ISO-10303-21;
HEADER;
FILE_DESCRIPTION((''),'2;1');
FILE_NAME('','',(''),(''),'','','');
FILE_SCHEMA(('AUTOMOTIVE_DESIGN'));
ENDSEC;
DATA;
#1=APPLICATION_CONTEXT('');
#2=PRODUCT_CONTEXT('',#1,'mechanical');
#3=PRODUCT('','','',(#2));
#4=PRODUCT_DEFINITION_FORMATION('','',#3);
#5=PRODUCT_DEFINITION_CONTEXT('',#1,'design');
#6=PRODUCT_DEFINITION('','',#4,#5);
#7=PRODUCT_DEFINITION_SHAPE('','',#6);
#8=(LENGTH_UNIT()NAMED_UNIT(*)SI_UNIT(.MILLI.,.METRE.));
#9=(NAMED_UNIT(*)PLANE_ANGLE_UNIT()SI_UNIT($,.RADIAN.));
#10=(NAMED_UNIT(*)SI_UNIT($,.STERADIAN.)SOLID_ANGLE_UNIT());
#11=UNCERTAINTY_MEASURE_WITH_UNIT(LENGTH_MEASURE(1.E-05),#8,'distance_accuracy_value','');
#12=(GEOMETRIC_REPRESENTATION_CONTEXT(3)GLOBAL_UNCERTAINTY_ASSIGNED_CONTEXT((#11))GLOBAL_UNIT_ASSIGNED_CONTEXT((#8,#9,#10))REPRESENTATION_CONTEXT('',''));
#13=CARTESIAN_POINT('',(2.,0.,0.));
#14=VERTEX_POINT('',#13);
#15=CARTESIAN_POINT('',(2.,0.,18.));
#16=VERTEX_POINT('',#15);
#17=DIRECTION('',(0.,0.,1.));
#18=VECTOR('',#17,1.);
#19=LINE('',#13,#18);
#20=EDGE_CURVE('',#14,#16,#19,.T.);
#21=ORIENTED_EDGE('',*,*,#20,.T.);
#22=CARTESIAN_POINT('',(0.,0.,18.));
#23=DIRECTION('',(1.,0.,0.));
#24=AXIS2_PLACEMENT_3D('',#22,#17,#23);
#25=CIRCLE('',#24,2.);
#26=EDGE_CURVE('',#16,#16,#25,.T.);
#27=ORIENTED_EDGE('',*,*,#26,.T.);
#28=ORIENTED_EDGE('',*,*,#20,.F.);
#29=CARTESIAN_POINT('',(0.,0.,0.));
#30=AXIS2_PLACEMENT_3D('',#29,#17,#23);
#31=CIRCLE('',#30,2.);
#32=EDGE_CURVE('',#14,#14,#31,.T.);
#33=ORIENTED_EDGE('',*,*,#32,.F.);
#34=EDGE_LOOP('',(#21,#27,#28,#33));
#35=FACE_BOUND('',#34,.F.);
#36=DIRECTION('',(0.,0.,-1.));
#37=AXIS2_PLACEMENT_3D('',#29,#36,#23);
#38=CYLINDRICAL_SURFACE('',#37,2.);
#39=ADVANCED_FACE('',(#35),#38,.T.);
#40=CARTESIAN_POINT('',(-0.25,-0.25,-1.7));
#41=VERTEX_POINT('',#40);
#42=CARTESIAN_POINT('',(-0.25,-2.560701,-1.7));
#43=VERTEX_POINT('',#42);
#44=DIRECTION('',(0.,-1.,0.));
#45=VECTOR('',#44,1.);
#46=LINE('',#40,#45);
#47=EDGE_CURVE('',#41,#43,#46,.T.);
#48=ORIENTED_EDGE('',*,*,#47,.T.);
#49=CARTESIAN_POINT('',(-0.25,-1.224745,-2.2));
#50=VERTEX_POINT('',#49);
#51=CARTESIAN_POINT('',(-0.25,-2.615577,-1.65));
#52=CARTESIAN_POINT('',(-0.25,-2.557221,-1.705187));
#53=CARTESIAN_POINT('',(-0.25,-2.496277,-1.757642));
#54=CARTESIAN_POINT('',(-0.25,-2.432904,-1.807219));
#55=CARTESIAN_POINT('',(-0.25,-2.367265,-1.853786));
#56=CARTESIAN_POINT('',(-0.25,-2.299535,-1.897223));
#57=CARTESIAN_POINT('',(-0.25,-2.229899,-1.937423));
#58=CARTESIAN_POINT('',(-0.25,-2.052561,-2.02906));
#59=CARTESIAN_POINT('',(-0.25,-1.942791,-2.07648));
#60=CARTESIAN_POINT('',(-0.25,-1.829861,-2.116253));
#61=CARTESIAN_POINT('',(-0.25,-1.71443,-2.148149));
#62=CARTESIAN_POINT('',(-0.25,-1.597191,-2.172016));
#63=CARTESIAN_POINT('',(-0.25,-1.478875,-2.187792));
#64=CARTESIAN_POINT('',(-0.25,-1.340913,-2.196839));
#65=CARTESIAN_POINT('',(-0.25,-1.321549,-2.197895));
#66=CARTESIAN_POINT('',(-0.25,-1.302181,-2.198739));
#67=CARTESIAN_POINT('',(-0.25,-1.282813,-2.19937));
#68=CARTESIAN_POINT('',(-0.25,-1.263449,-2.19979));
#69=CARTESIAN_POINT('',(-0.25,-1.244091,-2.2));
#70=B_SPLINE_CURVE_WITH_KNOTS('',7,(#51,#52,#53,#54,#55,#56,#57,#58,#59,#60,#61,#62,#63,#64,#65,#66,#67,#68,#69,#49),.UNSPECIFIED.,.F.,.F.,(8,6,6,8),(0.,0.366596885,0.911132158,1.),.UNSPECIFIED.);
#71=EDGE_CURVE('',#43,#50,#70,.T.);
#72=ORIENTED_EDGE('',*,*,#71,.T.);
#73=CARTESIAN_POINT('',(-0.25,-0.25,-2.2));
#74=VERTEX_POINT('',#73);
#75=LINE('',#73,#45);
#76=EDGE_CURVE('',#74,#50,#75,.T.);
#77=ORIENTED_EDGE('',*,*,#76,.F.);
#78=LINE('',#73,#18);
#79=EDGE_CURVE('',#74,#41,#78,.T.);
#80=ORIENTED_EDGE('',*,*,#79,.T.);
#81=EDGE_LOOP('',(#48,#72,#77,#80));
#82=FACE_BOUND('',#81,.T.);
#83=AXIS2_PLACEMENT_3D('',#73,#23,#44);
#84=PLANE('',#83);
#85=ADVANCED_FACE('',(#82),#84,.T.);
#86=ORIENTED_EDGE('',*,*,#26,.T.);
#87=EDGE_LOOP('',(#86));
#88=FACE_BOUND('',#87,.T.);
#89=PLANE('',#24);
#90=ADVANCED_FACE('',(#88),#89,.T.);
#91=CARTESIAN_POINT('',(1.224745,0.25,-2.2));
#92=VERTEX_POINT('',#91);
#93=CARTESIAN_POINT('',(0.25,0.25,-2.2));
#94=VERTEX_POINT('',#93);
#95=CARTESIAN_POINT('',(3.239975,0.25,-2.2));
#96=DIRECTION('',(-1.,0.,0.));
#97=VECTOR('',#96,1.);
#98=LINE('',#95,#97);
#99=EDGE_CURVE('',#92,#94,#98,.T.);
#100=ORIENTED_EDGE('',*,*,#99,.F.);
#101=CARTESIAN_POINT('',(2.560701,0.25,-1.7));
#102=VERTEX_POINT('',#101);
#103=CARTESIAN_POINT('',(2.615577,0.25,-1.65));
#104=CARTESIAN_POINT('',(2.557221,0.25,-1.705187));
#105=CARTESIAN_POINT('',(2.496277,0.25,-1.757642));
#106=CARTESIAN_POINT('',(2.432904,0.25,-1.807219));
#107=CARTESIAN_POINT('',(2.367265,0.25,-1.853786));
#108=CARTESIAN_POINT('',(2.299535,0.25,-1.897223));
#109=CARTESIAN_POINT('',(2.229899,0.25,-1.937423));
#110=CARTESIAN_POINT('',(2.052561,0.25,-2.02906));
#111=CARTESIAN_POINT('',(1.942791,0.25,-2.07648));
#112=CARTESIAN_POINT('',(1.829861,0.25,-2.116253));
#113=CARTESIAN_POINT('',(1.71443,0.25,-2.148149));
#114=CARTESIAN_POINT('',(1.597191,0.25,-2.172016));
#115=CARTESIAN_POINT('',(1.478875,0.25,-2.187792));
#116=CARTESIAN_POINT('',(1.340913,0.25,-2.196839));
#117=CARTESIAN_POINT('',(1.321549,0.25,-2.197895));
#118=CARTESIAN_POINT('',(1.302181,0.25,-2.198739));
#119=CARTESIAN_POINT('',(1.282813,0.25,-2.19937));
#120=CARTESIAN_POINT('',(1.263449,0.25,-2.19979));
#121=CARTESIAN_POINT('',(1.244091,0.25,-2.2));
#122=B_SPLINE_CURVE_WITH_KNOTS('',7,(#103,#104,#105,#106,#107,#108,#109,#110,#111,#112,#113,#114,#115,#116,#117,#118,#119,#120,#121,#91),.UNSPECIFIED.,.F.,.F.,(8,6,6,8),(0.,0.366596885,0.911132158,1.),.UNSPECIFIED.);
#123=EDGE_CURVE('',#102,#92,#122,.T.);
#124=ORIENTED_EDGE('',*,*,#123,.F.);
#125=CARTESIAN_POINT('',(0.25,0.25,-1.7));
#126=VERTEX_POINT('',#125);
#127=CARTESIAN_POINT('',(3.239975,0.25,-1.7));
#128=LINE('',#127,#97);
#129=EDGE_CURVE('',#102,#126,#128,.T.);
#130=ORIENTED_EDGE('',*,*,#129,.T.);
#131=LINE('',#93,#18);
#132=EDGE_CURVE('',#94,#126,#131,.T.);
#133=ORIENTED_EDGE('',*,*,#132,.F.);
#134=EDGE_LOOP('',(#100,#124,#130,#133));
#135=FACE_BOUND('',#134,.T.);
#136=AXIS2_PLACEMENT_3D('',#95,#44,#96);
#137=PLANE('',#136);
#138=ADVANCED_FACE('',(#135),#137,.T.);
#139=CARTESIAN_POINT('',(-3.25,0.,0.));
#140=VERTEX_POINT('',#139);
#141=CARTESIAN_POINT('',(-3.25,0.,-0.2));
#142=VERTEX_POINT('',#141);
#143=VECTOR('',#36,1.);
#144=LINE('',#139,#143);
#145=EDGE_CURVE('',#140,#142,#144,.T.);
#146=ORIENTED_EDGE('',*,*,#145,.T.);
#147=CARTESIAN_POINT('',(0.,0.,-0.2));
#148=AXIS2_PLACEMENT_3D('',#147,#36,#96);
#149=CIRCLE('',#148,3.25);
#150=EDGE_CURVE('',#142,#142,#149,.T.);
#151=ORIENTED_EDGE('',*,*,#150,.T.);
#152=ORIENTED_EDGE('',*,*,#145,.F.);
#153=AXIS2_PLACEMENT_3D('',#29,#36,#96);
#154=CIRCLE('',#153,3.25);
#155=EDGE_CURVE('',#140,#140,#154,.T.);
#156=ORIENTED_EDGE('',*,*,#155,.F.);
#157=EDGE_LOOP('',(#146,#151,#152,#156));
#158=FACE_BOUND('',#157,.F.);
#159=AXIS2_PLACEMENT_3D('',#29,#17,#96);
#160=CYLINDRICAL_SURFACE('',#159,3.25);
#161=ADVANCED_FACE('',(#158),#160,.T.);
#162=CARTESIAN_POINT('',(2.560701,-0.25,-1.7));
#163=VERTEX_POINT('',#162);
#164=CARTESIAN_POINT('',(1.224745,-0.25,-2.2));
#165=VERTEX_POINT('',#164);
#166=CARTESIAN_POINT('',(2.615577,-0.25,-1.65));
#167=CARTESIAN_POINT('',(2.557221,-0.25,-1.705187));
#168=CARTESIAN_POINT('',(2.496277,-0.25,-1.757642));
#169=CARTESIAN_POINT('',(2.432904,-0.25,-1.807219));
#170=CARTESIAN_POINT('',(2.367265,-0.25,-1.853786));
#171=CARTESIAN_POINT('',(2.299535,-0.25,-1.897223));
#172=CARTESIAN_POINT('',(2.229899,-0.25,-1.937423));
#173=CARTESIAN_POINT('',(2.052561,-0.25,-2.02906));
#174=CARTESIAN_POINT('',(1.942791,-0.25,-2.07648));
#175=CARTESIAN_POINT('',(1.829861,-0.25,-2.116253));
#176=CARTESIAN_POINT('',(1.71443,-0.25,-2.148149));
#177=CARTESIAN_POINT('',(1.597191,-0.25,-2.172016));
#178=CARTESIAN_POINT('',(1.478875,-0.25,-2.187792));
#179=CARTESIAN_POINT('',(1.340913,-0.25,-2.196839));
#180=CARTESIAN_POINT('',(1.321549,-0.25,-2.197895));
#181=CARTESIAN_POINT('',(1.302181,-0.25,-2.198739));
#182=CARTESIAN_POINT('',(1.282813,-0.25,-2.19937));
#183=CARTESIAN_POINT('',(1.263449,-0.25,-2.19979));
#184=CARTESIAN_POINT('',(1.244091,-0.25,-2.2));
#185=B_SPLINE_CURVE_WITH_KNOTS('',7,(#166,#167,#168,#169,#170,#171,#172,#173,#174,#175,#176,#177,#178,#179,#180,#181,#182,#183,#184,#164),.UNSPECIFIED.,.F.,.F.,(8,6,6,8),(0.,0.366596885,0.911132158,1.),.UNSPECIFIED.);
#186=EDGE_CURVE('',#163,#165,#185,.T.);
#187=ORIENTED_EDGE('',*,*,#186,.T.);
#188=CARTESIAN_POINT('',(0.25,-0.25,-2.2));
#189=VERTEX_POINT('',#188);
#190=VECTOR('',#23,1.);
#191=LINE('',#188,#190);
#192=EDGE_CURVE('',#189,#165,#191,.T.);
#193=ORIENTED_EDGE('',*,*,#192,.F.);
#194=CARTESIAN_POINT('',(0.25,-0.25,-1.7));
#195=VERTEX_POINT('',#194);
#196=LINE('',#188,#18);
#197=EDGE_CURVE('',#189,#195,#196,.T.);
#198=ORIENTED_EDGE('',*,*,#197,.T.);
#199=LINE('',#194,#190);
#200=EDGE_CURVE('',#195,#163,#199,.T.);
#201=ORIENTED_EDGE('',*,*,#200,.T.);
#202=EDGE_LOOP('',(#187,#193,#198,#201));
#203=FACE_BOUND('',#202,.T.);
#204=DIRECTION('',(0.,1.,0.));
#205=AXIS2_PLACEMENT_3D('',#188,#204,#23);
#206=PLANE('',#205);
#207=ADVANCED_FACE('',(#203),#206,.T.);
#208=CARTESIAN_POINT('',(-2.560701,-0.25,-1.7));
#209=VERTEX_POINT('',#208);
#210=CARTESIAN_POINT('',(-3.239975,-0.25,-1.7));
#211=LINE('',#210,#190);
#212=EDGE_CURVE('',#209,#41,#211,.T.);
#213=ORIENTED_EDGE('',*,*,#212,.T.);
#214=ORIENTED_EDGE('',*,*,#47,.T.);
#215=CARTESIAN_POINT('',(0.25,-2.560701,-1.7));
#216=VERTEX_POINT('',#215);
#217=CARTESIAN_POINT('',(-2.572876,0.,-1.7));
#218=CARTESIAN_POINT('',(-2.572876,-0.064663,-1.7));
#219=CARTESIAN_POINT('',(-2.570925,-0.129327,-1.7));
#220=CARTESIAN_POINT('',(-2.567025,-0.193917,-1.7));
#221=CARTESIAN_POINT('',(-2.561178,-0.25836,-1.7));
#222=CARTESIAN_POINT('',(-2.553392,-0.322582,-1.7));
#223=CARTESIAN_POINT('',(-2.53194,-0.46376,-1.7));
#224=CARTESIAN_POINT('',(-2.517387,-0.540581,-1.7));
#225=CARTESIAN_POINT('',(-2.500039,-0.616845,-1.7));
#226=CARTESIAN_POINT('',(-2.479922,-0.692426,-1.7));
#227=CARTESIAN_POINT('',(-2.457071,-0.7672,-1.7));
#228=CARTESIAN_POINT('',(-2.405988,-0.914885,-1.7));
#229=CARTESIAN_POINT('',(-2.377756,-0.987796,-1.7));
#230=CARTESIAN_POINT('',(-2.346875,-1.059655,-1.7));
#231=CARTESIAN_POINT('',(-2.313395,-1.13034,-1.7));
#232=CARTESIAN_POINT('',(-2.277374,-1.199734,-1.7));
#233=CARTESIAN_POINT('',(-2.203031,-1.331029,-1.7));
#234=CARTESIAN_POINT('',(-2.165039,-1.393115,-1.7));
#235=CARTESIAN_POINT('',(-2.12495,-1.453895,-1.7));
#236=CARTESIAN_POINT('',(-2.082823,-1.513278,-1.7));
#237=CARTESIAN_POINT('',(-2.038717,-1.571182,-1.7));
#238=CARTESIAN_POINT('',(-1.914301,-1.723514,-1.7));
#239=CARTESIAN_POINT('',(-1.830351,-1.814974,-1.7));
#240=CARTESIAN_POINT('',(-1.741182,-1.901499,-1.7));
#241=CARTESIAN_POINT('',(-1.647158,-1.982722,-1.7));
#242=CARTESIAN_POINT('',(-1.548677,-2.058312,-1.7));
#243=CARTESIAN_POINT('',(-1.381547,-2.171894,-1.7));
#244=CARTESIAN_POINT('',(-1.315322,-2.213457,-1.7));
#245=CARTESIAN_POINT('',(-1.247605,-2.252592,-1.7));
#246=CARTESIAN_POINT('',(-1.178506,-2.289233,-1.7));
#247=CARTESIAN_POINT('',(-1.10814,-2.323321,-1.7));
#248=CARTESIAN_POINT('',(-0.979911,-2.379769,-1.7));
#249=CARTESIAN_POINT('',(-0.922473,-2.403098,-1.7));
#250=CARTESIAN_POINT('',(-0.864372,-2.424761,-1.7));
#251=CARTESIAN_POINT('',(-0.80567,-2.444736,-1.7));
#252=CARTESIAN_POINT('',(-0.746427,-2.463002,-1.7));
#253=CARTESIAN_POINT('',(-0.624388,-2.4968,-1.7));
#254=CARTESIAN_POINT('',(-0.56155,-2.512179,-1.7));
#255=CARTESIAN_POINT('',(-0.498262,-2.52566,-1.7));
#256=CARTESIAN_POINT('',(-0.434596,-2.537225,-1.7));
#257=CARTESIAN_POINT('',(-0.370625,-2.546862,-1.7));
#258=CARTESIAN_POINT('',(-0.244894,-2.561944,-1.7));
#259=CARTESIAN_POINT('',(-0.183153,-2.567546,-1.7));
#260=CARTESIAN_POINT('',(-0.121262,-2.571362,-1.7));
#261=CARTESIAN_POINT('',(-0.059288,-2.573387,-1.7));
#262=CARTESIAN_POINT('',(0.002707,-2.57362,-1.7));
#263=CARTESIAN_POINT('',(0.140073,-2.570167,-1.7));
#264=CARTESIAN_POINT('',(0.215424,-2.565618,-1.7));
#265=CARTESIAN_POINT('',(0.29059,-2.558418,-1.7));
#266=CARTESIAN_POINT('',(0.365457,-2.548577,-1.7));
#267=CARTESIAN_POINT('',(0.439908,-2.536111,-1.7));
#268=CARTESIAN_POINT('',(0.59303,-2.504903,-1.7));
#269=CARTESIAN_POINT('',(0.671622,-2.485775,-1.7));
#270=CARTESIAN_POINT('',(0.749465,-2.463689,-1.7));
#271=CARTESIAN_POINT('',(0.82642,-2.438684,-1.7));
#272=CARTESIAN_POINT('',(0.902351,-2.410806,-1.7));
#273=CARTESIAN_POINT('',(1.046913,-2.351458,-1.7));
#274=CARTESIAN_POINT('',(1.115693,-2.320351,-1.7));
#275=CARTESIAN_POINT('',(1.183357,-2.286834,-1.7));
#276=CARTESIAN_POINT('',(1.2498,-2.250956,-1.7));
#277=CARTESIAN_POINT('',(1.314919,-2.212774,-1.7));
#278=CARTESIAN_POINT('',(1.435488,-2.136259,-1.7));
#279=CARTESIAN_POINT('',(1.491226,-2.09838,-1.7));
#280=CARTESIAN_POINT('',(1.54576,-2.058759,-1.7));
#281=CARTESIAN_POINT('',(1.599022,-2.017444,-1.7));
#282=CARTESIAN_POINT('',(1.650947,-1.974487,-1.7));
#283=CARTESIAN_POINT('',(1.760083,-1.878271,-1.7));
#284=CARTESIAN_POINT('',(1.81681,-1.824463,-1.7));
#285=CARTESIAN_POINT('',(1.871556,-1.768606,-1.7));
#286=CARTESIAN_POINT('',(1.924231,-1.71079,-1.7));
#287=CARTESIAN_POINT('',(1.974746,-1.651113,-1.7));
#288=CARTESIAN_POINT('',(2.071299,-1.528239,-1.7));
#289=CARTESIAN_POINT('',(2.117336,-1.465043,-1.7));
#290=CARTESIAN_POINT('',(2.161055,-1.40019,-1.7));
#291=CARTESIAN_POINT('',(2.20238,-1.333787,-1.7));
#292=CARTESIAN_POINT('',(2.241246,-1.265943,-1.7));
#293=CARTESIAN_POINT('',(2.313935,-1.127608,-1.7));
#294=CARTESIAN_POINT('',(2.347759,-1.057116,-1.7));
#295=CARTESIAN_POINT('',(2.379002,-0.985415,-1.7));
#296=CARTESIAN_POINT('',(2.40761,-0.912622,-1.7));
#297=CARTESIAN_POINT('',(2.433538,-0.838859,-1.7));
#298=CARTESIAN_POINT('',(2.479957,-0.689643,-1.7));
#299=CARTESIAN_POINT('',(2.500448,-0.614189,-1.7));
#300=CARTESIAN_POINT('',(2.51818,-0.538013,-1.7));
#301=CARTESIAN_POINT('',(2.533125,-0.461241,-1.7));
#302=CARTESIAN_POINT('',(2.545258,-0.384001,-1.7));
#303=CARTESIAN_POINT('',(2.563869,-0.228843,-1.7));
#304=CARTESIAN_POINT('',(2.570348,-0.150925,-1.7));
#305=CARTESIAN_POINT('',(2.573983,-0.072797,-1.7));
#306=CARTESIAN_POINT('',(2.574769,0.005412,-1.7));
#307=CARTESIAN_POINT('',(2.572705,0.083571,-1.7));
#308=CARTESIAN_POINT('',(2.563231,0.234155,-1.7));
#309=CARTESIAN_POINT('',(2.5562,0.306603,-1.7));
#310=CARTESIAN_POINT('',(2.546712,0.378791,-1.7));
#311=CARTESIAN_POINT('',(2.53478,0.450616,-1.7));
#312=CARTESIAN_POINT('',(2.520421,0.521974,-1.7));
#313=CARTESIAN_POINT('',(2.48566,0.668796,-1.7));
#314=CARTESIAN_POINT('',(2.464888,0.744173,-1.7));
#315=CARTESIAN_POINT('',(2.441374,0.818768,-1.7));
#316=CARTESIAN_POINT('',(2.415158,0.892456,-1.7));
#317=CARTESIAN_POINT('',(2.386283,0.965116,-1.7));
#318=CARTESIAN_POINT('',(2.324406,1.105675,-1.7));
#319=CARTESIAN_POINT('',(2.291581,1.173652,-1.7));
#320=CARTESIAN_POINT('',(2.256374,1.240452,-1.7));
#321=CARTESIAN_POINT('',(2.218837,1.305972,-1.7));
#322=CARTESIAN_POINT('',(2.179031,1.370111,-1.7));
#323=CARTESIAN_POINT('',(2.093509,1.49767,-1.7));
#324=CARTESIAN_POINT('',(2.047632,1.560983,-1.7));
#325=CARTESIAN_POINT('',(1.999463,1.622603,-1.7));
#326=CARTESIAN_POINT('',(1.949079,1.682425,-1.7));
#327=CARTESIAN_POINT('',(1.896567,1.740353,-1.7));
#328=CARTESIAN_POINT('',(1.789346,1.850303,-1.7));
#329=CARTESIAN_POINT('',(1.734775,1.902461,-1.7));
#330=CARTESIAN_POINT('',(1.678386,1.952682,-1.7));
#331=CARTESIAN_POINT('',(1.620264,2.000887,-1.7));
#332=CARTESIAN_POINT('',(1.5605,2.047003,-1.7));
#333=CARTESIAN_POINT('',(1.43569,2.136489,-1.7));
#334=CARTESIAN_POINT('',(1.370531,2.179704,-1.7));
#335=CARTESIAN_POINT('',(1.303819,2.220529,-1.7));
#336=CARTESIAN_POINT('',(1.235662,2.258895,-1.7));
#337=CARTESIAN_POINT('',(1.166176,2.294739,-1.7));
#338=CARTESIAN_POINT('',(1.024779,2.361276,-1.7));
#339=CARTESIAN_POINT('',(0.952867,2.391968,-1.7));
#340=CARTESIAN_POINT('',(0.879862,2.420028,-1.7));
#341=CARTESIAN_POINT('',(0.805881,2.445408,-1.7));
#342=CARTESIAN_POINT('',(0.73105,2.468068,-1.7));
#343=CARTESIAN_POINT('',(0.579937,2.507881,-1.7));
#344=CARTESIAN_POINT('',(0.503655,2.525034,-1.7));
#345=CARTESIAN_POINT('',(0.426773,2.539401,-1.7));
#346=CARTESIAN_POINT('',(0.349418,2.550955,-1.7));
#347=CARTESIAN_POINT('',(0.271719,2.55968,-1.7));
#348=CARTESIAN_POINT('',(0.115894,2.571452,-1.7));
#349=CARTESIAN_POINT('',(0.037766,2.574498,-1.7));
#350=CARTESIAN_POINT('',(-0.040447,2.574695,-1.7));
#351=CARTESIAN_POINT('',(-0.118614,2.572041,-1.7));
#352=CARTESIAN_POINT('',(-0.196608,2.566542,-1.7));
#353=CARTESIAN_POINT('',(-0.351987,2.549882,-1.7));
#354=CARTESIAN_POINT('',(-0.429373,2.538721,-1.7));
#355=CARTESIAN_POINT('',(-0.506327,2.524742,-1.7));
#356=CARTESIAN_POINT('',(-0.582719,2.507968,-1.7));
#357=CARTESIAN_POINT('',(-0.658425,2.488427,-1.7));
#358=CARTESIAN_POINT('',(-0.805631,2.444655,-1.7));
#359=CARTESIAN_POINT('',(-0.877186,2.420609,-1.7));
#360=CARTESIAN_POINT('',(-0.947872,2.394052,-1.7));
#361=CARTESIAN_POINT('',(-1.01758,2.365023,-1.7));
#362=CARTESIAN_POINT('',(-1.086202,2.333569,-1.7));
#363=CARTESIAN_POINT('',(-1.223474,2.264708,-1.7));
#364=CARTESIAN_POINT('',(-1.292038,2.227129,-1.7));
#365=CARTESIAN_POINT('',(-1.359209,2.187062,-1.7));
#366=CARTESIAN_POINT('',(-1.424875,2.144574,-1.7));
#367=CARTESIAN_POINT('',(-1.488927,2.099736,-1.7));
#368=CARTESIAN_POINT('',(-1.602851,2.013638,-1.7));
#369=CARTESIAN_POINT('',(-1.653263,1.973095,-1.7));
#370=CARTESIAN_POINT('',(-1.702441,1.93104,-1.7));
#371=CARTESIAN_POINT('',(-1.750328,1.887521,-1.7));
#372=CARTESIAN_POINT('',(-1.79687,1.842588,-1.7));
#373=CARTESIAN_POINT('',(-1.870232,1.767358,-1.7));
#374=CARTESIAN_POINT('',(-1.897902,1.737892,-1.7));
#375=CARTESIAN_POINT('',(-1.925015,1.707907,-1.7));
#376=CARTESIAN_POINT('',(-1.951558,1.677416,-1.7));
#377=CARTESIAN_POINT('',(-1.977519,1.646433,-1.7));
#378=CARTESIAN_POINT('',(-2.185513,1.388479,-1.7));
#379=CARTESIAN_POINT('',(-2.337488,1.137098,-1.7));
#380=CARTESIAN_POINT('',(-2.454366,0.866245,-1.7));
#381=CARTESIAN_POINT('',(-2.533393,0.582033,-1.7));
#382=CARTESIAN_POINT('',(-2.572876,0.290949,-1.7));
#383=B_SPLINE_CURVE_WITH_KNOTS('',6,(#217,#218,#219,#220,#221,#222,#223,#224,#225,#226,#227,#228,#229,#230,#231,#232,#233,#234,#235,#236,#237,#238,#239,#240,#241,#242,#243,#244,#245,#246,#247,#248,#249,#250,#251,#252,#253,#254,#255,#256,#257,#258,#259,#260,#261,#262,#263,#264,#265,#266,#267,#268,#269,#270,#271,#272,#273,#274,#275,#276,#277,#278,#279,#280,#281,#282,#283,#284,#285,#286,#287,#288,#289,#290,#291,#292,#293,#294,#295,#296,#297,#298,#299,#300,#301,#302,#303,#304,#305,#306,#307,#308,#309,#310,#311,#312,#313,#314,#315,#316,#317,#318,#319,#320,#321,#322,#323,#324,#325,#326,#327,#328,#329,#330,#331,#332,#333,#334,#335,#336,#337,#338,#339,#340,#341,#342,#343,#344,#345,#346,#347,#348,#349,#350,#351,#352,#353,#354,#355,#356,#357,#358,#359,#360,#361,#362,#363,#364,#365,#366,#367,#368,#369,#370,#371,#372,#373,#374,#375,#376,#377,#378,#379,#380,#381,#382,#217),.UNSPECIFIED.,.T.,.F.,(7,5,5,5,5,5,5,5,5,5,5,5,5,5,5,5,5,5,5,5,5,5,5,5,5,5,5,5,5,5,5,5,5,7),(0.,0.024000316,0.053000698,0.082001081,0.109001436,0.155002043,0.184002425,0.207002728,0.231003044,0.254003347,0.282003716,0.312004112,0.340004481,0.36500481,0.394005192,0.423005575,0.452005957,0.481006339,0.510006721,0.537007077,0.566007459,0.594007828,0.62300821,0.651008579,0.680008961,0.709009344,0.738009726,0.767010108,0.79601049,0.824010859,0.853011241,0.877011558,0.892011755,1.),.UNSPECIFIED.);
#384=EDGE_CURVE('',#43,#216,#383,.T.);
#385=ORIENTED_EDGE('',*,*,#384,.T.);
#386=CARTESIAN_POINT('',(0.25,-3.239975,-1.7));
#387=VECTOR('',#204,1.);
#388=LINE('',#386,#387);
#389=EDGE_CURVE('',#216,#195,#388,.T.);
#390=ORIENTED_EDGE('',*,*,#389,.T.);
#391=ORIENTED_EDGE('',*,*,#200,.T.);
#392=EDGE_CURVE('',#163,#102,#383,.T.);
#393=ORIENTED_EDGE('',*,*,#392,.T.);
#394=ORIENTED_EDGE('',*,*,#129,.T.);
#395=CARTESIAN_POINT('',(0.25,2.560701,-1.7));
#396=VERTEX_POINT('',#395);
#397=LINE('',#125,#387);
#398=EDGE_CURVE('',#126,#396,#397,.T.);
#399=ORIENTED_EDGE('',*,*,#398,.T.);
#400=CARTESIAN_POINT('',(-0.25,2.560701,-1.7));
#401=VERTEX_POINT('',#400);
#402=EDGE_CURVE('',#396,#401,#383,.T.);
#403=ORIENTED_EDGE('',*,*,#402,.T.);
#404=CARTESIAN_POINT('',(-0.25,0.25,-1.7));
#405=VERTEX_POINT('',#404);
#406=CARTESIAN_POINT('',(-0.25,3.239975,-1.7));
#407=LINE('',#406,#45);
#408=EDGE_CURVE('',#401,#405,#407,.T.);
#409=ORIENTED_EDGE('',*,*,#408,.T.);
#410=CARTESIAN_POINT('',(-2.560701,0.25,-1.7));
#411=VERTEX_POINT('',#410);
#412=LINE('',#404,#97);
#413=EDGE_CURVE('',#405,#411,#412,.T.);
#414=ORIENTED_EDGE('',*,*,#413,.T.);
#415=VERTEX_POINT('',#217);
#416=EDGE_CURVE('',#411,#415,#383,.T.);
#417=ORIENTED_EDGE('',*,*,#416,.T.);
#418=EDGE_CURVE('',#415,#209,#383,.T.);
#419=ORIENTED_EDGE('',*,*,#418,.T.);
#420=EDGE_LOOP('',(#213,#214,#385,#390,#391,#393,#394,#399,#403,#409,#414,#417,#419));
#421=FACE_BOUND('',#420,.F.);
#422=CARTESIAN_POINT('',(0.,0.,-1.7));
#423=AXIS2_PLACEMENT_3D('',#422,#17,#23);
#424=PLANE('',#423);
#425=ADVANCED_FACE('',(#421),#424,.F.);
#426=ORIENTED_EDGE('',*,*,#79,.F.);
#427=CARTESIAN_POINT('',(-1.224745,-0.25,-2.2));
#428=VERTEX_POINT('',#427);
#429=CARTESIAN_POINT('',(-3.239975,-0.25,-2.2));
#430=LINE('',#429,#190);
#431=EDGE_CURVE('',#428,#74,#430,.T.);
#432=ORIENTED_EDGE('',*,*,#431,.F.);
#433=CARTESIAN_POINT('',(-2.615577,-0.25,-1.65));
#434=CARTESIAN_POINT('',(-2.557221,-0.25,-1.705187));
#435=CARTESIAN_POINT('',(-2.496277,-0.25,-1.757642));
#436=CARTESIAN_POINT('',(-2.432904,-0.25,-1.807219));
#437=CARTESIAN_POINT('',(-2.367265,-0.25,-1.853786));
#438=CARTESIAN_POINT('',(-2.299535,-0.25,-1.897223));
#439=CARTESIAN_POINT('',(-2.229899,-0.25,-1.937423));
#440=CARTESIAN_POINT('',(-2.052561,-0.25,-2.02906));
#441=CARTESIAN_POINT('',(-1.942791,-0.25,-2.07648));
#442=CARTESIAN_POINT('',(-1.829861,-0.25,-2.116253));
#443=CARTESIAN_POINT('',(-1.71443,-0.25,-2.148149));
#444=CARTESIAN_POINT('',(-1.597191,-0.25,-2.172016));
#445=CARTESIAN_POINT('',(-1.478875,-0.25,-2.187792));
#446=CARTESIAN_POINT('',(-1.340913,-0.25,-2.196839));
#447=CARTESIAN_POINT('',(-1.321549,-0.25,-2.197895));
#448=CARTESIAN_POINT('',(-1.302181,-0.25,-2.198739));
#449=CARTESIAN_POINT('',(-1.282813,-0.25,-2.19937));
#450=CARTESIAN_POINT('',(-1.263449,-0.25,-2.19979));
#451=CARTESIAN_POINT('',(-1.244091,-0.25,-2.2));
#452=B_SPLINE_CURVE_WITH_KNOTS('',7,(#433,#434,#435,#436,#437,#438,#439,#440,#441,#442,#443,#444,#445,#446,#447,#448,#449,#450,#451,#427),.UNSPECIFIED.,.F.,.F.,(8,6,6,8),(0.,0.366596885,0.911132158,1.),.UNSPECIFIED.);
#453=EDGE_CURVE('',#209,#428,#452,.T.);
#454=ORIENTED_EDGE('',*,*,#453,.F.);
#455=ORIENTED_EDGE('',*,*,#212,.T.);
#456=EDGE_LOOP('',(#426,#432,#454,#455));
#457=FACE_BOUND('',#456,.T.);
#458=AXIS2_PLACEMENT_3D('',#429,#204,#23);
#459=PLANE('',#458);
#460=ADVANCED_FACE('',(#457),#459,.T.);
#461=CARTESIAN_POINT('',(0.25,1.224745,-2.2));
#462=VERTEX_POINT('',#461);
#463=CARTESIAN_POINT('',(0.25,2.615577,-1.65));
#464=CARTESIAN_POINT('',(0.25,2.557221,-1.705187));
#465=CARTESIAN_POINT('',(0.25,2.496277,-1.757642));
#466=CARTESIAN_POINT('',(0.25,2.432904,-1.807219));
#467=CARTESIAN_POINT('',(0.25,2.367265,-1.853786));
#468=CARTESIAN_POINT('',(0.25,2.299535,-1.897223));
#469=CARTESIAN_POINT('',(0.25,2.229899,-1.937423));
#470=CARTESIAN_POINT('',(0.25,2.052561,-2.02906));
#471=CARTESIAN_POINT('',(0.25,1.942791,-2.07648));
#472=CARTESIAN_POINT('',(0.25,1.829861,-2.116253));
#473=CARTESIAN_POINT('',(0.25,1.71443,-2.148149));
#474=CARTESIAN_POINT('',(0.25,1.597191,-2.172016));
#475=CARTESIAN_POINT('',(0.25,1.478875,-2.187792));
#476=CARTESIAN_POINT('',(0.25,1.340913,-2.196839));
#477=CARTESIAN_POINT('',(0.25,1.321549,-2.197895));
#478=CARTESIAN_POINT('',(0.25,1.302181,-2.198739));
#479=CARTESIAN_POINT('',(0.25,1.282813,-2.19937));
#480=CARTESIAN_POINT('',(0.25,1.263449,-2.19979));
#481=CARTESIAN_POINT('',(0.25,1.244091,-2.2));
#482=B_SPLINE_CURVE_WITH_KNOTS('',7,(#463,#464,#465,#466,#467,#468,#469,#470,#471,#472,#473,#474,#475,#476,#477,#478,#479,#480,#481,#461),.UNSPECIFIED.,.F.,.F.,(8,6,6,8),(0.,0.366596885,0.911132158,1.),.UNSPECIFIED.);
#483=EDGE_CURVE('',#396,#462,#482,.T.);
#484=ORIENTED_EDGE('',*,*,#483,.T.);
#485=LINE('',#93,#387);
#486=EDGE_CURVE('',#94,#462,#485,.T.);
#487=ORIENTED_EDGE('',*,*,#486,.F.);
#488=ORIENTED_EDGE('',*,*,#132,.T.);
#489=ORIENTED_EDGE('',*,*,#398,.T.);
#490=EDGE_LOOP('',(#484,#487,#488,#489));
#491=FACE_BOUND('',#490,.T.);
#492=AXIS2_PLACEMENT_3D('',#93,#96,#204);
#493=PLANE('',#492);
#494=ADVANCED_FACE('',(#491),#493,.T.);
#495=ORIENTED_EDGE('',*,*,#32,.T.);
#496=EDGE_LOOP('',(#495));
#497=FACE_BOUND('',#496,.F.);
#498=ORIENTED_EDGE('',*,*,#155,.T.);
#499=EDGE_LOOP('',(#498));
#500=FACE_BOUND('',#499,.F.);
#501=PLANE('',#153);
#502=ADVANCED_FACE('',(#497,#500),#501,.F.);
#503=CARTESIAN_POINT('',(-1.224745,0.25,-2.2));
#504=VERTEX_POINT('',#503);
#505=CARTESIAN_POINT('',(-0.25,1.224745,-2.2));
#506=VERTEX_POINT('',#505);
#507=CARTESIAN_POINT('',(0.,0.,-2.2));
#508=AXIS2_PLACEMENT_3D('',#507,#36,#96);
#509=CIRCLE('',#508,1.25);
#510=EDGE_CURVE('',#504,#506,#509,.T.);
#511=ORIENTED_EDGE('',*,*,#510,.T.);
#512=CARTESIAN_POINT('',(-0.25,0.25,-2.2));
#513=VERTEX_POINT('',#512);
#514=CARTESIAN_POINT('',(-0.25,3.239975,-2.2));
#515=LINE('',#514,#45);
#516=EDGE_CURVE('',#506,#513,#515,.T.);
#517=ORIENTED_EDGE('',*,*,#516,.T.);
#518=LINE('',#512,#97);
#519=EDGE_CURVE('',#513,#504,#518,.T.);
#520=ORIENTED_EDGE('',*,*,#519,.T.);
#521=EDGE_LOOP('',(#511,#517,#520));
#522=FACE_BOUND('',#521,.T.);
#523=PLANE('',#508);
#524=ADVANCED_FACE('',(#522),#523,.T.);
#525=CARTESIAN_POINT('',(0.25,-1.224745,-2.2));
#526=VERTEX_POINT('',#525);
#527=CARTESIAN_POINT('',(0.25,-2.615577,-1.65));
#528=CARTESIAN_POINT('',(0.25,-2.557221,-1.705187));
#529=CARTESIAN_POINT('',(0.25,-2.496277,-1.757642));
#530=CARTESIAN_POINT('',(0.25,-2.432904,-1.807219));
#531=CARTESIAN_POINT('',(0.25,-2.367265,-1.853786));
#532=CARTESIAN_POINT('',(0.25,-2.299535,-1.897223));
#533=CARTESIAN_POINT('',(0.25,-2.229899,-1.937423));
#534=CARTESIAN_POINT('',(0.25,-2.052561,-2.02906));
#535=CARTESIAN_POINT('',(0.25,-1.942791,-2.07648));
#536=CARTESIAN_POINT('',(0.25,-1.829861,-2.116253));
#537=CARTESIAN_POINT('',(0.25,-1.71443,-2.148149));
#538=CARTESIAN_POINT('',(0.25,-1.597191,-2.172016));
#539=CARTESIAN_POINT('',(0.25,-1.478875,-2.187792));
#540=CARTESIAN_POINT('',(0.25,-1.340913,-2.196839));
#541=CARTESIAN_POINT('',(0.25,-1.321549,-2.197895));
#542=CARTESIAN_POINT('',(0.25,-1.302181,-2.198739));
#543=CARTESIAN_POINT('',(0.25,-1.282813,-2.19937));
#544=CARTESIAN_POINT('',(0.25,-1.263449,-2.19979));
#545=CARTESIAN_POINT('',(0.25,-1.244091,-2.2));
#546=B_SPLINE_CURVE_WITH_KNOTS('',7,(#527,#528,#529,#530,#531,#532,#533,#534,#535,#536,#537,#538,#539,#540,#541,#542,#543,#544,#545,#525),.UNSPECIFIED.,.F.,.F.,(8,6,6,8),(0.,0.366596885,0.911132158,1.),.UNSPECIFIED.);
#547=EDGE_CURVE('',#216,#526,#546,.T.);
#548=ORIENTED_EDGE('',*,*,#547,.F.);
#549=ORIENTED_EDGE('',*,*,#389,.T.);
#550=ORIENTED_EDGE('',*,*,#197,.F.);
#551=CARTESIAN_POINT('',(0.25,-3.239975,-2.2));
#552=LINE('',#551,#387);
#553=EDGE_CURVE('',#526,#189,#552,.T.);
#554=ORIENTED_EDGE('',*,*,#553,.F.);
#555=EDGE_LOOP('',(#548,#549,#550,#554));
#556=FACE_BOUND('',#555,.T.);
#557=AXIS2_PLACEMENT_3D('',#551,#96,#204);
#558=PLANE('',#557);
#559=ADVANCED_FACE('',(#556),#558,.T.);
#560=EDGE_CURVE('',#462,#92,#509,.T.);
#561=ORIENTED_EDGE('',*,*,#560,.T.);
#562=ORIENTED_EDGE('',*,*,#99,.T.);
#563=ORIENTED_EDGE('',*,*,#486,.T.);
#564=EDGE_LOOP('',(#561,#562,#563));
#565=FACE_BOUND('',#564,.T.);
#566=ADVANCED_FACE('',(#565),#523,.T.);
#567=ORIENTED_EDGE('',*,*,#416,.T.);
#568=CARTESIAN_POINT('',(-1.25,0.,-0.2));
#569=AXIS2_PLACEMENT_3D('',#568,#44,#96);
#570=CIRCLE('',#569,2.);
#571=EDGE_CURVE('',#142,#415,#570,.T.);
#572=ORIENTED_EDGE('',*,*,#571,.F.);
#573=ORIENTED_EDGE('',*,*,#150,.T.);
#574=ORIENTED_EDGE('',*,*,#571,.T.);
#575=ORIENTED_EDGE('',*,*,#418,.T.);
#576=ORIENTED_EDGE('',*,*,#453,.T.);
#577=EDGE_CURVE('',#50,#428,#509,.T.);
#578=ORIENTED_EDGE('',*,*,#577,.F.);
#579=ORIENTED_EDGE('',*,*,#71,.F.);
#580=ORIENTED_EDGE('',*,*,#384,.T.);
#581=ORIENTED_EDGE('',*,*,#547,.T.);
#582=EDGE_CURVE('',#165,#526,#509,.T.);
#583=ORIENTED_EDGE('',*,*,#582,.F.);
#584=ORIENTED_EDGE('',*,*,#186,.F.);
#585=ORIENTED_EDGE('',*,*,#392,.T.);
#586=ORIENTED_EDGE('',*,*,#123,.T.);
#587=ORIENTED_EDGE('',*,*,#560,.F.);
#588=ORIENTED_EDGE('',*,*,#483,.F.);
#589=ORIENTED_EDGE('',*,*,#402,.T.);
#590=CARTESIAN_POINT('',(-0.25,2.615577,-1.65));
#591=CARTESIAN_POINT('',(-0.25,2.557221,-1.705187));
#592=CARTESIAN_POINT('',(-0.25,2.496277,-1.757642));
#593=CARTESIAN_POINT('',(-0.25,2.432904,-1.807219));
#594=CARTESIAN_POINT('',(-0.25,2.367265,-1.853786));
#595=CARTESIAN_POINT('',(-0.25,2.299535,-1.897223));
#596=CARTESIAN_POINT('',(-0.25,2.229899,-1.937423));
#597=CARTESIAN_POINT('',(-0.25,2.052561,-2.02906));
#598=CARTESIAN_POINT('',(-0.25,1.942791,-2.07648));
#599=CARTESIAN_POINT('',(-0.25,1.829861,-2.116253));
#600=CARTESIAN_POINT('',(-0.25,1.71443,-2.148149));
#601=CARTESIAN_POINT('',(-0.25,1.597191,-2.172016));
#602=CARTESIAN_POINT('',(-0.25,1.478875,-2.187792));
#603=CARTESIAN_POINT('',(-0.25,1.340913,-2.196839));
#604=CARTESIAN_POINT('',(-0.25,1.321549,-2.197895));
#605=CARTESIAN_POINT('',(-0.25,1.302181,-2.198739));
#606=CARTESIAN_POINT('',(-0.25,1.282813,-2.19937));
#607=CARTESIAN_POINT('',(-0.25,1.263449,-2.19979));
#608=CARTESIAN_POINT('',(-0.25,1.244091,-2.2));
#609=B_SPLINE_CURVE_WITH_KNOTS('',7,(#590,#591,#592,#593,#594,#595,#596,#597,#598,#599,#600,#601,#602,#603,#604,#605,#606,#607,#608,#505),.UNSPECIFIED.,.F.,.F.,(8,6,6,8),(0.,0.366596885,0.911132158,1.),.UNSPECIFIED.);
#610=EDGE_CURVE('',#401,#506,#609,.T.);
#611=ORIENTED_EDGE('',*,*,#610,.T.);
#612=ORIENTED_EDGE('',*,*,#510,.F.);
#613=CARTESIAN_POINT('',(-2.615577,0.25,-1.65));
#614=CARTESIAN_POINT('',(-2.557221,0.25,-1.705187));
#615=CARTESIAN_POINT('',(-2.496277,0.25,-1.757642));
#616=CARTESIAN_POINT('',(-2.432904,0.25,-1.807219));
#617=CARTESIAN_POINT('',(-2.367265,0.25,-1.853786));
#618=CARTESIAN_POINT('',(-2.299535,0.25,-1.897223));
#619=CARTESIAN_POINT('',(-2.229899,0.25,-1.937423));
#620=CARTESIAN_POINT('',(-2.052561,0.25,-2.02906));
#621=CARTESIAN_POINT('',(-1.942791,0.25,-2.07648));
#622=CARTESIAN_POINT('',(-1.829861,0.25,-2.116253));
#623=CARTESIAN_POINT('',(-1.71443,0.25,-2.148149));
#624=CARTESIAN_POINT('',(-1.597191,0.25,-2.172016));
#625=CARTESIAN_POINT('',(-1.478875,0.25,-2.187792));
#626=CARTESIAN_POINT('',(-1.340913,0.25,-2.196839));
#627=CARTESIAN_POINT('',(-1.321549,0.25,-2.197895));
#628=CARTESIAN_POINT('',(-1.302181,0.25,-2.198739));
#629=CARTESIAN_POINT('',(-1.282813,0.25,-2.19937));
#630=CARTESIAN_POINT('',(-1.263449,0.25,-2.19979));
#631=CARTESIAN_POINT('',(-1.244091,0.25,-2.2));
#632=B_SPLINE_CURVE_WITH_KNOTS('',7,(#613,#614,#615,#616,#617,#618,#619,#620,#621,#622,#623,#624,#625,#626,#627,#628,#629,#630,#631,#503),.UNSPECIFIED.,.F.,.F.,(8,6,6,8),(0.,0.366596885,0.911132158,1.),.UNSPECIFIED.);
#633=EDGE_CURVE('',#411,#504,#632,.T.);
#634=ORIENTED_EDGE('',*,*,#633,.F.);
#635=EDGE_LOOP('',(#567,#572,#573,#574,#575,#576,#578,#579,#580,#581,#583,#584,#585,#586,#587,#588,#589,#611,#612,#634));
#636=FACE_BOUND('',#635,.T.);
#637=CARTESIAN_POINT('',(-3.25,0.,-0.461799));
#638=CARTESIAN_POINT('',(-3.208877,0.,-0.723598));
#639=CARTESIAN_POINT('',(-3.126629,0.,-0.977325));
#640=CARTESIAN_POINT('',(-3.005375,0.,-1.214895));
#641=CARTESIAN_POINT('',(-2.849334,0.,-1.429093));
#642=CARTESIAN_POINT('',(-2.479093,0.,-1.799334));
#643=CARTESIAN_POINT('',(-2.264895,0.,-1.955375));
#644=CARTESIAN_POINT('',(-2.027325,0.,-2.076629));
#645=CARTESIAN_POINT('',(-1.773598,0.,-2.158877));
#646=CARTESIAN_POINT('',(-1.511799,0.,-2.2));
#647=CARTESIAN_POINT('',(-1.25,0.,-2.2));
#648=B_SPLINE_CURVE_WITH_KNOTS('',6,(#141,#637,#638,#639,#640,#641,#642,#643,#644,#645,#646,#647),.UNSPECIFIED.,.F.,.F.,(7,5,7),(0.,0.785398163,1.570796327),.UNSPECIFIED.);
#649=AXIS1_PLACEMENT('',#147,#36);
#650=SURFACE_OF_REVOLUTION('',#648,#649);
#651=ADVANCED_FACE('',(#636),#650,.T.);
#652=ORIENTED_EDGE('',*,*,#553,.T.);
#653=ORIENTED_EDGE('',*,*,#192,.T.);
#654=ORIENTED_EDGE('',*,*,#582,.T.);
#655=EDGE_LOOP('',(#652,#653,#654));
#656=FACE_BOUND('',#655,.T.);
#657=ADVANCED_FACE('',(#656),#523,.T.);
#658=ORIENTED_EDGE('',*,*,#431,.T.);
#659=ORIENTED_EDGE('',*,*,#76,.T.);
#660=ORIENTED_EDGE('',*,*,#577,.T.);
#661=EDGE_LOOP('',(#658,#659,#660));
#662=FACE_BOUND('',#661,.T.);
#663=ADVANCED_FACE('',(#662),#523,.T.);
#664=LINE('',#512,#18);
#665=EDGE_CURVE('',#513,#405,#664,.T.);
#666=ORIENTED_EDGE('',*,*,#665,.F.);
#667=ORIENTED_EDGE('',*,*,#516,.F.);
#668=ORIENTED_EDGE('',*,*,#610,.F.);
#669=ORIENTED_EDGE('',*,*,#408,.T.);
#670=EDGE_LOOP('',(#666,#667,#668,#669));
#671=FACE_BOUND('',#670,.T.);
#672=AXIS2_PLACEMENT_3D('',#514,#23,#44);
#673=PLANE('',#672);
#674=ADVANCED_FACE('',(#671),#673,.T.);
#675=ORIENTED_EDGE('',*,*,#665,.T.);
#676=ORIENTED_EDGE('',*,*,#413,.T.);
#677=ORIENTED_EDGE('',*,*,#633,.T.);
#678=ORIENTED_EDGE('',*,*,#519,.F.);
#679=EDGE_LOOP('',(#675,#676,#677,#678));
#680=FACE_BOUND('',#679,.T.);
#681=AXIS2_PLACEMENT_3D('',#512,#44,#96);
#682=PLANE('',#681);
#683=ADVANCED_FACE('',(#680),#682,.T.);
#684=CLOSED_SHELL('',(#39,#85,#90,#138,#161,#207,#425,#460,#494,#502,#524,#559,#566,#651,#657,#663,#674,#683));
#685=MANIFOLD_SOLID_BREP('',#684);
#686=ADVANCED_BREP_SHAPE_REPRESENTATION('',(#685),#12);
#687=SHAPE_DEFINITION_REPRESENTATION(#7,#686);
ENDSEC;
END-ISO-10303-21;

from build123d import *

# Parameters (mm, degrees)
SKETCH_1_R          = 2
EXTRUDE_1_DEPTH     = 18
SKETCH_2_R          = 3.25
EXTRUDE_2_DEPTH     = 2.2
FILLET_1_R          = 2
CUT_EXTRUDE_1_DEPTH = 0.5


with BuildPart() as part:
    # 草图1 → 凸台-拉伸1 (new body)
    with BuildSketch(Plane.XY):
        Circle(SKETCH_1_R)
    extrude(amount=EXTRUDE_1_DEPTH)

    # 草图2 → 凸台-拉伸2 (add)
    with BuildSketch(Plane(origin=(0, 0, 0), x_dir=(-1, 0, 0), z_dir=(0, 0, -1))):
        Circle(SKETCH_2_R)
    extrude(amount=EXTRUDE_2_DEPTH)

    # 圆角1
    fillet_1_edges = [part.edges().sort_by_distance(p)[0] for p in [
        (3.25, 0, -2.2),
    ]]
    fillet(fillet_1_edges, radius=FILLET_1_R)

    # 草图3 → 切除-拉伸1 (cut)
    with BuildSketch(Plane(origin=(0, 0, -2.2), x_dir=(-1, 0, 0), z_dir=(0, 0, -1))):
        Polygon((3.239974874, 0.25), (3.239974874, -0.25), (0.25, -0.25), (0.25, -3.239974874), (-0.25, -3.239974874), (-0.25, -0.25), (-3.239974874, -0.25), (-3.239974874, 0.25), (-0.25, 0.25), (-0.25, 3.239974874), (0.25, 3.239974874), (0.25, 0.25), align=None)
    extrude(amount=-CUT_EXTRUDE_1_DEPTH, mode=Mode.SUBTRACT)


solid = part.part
